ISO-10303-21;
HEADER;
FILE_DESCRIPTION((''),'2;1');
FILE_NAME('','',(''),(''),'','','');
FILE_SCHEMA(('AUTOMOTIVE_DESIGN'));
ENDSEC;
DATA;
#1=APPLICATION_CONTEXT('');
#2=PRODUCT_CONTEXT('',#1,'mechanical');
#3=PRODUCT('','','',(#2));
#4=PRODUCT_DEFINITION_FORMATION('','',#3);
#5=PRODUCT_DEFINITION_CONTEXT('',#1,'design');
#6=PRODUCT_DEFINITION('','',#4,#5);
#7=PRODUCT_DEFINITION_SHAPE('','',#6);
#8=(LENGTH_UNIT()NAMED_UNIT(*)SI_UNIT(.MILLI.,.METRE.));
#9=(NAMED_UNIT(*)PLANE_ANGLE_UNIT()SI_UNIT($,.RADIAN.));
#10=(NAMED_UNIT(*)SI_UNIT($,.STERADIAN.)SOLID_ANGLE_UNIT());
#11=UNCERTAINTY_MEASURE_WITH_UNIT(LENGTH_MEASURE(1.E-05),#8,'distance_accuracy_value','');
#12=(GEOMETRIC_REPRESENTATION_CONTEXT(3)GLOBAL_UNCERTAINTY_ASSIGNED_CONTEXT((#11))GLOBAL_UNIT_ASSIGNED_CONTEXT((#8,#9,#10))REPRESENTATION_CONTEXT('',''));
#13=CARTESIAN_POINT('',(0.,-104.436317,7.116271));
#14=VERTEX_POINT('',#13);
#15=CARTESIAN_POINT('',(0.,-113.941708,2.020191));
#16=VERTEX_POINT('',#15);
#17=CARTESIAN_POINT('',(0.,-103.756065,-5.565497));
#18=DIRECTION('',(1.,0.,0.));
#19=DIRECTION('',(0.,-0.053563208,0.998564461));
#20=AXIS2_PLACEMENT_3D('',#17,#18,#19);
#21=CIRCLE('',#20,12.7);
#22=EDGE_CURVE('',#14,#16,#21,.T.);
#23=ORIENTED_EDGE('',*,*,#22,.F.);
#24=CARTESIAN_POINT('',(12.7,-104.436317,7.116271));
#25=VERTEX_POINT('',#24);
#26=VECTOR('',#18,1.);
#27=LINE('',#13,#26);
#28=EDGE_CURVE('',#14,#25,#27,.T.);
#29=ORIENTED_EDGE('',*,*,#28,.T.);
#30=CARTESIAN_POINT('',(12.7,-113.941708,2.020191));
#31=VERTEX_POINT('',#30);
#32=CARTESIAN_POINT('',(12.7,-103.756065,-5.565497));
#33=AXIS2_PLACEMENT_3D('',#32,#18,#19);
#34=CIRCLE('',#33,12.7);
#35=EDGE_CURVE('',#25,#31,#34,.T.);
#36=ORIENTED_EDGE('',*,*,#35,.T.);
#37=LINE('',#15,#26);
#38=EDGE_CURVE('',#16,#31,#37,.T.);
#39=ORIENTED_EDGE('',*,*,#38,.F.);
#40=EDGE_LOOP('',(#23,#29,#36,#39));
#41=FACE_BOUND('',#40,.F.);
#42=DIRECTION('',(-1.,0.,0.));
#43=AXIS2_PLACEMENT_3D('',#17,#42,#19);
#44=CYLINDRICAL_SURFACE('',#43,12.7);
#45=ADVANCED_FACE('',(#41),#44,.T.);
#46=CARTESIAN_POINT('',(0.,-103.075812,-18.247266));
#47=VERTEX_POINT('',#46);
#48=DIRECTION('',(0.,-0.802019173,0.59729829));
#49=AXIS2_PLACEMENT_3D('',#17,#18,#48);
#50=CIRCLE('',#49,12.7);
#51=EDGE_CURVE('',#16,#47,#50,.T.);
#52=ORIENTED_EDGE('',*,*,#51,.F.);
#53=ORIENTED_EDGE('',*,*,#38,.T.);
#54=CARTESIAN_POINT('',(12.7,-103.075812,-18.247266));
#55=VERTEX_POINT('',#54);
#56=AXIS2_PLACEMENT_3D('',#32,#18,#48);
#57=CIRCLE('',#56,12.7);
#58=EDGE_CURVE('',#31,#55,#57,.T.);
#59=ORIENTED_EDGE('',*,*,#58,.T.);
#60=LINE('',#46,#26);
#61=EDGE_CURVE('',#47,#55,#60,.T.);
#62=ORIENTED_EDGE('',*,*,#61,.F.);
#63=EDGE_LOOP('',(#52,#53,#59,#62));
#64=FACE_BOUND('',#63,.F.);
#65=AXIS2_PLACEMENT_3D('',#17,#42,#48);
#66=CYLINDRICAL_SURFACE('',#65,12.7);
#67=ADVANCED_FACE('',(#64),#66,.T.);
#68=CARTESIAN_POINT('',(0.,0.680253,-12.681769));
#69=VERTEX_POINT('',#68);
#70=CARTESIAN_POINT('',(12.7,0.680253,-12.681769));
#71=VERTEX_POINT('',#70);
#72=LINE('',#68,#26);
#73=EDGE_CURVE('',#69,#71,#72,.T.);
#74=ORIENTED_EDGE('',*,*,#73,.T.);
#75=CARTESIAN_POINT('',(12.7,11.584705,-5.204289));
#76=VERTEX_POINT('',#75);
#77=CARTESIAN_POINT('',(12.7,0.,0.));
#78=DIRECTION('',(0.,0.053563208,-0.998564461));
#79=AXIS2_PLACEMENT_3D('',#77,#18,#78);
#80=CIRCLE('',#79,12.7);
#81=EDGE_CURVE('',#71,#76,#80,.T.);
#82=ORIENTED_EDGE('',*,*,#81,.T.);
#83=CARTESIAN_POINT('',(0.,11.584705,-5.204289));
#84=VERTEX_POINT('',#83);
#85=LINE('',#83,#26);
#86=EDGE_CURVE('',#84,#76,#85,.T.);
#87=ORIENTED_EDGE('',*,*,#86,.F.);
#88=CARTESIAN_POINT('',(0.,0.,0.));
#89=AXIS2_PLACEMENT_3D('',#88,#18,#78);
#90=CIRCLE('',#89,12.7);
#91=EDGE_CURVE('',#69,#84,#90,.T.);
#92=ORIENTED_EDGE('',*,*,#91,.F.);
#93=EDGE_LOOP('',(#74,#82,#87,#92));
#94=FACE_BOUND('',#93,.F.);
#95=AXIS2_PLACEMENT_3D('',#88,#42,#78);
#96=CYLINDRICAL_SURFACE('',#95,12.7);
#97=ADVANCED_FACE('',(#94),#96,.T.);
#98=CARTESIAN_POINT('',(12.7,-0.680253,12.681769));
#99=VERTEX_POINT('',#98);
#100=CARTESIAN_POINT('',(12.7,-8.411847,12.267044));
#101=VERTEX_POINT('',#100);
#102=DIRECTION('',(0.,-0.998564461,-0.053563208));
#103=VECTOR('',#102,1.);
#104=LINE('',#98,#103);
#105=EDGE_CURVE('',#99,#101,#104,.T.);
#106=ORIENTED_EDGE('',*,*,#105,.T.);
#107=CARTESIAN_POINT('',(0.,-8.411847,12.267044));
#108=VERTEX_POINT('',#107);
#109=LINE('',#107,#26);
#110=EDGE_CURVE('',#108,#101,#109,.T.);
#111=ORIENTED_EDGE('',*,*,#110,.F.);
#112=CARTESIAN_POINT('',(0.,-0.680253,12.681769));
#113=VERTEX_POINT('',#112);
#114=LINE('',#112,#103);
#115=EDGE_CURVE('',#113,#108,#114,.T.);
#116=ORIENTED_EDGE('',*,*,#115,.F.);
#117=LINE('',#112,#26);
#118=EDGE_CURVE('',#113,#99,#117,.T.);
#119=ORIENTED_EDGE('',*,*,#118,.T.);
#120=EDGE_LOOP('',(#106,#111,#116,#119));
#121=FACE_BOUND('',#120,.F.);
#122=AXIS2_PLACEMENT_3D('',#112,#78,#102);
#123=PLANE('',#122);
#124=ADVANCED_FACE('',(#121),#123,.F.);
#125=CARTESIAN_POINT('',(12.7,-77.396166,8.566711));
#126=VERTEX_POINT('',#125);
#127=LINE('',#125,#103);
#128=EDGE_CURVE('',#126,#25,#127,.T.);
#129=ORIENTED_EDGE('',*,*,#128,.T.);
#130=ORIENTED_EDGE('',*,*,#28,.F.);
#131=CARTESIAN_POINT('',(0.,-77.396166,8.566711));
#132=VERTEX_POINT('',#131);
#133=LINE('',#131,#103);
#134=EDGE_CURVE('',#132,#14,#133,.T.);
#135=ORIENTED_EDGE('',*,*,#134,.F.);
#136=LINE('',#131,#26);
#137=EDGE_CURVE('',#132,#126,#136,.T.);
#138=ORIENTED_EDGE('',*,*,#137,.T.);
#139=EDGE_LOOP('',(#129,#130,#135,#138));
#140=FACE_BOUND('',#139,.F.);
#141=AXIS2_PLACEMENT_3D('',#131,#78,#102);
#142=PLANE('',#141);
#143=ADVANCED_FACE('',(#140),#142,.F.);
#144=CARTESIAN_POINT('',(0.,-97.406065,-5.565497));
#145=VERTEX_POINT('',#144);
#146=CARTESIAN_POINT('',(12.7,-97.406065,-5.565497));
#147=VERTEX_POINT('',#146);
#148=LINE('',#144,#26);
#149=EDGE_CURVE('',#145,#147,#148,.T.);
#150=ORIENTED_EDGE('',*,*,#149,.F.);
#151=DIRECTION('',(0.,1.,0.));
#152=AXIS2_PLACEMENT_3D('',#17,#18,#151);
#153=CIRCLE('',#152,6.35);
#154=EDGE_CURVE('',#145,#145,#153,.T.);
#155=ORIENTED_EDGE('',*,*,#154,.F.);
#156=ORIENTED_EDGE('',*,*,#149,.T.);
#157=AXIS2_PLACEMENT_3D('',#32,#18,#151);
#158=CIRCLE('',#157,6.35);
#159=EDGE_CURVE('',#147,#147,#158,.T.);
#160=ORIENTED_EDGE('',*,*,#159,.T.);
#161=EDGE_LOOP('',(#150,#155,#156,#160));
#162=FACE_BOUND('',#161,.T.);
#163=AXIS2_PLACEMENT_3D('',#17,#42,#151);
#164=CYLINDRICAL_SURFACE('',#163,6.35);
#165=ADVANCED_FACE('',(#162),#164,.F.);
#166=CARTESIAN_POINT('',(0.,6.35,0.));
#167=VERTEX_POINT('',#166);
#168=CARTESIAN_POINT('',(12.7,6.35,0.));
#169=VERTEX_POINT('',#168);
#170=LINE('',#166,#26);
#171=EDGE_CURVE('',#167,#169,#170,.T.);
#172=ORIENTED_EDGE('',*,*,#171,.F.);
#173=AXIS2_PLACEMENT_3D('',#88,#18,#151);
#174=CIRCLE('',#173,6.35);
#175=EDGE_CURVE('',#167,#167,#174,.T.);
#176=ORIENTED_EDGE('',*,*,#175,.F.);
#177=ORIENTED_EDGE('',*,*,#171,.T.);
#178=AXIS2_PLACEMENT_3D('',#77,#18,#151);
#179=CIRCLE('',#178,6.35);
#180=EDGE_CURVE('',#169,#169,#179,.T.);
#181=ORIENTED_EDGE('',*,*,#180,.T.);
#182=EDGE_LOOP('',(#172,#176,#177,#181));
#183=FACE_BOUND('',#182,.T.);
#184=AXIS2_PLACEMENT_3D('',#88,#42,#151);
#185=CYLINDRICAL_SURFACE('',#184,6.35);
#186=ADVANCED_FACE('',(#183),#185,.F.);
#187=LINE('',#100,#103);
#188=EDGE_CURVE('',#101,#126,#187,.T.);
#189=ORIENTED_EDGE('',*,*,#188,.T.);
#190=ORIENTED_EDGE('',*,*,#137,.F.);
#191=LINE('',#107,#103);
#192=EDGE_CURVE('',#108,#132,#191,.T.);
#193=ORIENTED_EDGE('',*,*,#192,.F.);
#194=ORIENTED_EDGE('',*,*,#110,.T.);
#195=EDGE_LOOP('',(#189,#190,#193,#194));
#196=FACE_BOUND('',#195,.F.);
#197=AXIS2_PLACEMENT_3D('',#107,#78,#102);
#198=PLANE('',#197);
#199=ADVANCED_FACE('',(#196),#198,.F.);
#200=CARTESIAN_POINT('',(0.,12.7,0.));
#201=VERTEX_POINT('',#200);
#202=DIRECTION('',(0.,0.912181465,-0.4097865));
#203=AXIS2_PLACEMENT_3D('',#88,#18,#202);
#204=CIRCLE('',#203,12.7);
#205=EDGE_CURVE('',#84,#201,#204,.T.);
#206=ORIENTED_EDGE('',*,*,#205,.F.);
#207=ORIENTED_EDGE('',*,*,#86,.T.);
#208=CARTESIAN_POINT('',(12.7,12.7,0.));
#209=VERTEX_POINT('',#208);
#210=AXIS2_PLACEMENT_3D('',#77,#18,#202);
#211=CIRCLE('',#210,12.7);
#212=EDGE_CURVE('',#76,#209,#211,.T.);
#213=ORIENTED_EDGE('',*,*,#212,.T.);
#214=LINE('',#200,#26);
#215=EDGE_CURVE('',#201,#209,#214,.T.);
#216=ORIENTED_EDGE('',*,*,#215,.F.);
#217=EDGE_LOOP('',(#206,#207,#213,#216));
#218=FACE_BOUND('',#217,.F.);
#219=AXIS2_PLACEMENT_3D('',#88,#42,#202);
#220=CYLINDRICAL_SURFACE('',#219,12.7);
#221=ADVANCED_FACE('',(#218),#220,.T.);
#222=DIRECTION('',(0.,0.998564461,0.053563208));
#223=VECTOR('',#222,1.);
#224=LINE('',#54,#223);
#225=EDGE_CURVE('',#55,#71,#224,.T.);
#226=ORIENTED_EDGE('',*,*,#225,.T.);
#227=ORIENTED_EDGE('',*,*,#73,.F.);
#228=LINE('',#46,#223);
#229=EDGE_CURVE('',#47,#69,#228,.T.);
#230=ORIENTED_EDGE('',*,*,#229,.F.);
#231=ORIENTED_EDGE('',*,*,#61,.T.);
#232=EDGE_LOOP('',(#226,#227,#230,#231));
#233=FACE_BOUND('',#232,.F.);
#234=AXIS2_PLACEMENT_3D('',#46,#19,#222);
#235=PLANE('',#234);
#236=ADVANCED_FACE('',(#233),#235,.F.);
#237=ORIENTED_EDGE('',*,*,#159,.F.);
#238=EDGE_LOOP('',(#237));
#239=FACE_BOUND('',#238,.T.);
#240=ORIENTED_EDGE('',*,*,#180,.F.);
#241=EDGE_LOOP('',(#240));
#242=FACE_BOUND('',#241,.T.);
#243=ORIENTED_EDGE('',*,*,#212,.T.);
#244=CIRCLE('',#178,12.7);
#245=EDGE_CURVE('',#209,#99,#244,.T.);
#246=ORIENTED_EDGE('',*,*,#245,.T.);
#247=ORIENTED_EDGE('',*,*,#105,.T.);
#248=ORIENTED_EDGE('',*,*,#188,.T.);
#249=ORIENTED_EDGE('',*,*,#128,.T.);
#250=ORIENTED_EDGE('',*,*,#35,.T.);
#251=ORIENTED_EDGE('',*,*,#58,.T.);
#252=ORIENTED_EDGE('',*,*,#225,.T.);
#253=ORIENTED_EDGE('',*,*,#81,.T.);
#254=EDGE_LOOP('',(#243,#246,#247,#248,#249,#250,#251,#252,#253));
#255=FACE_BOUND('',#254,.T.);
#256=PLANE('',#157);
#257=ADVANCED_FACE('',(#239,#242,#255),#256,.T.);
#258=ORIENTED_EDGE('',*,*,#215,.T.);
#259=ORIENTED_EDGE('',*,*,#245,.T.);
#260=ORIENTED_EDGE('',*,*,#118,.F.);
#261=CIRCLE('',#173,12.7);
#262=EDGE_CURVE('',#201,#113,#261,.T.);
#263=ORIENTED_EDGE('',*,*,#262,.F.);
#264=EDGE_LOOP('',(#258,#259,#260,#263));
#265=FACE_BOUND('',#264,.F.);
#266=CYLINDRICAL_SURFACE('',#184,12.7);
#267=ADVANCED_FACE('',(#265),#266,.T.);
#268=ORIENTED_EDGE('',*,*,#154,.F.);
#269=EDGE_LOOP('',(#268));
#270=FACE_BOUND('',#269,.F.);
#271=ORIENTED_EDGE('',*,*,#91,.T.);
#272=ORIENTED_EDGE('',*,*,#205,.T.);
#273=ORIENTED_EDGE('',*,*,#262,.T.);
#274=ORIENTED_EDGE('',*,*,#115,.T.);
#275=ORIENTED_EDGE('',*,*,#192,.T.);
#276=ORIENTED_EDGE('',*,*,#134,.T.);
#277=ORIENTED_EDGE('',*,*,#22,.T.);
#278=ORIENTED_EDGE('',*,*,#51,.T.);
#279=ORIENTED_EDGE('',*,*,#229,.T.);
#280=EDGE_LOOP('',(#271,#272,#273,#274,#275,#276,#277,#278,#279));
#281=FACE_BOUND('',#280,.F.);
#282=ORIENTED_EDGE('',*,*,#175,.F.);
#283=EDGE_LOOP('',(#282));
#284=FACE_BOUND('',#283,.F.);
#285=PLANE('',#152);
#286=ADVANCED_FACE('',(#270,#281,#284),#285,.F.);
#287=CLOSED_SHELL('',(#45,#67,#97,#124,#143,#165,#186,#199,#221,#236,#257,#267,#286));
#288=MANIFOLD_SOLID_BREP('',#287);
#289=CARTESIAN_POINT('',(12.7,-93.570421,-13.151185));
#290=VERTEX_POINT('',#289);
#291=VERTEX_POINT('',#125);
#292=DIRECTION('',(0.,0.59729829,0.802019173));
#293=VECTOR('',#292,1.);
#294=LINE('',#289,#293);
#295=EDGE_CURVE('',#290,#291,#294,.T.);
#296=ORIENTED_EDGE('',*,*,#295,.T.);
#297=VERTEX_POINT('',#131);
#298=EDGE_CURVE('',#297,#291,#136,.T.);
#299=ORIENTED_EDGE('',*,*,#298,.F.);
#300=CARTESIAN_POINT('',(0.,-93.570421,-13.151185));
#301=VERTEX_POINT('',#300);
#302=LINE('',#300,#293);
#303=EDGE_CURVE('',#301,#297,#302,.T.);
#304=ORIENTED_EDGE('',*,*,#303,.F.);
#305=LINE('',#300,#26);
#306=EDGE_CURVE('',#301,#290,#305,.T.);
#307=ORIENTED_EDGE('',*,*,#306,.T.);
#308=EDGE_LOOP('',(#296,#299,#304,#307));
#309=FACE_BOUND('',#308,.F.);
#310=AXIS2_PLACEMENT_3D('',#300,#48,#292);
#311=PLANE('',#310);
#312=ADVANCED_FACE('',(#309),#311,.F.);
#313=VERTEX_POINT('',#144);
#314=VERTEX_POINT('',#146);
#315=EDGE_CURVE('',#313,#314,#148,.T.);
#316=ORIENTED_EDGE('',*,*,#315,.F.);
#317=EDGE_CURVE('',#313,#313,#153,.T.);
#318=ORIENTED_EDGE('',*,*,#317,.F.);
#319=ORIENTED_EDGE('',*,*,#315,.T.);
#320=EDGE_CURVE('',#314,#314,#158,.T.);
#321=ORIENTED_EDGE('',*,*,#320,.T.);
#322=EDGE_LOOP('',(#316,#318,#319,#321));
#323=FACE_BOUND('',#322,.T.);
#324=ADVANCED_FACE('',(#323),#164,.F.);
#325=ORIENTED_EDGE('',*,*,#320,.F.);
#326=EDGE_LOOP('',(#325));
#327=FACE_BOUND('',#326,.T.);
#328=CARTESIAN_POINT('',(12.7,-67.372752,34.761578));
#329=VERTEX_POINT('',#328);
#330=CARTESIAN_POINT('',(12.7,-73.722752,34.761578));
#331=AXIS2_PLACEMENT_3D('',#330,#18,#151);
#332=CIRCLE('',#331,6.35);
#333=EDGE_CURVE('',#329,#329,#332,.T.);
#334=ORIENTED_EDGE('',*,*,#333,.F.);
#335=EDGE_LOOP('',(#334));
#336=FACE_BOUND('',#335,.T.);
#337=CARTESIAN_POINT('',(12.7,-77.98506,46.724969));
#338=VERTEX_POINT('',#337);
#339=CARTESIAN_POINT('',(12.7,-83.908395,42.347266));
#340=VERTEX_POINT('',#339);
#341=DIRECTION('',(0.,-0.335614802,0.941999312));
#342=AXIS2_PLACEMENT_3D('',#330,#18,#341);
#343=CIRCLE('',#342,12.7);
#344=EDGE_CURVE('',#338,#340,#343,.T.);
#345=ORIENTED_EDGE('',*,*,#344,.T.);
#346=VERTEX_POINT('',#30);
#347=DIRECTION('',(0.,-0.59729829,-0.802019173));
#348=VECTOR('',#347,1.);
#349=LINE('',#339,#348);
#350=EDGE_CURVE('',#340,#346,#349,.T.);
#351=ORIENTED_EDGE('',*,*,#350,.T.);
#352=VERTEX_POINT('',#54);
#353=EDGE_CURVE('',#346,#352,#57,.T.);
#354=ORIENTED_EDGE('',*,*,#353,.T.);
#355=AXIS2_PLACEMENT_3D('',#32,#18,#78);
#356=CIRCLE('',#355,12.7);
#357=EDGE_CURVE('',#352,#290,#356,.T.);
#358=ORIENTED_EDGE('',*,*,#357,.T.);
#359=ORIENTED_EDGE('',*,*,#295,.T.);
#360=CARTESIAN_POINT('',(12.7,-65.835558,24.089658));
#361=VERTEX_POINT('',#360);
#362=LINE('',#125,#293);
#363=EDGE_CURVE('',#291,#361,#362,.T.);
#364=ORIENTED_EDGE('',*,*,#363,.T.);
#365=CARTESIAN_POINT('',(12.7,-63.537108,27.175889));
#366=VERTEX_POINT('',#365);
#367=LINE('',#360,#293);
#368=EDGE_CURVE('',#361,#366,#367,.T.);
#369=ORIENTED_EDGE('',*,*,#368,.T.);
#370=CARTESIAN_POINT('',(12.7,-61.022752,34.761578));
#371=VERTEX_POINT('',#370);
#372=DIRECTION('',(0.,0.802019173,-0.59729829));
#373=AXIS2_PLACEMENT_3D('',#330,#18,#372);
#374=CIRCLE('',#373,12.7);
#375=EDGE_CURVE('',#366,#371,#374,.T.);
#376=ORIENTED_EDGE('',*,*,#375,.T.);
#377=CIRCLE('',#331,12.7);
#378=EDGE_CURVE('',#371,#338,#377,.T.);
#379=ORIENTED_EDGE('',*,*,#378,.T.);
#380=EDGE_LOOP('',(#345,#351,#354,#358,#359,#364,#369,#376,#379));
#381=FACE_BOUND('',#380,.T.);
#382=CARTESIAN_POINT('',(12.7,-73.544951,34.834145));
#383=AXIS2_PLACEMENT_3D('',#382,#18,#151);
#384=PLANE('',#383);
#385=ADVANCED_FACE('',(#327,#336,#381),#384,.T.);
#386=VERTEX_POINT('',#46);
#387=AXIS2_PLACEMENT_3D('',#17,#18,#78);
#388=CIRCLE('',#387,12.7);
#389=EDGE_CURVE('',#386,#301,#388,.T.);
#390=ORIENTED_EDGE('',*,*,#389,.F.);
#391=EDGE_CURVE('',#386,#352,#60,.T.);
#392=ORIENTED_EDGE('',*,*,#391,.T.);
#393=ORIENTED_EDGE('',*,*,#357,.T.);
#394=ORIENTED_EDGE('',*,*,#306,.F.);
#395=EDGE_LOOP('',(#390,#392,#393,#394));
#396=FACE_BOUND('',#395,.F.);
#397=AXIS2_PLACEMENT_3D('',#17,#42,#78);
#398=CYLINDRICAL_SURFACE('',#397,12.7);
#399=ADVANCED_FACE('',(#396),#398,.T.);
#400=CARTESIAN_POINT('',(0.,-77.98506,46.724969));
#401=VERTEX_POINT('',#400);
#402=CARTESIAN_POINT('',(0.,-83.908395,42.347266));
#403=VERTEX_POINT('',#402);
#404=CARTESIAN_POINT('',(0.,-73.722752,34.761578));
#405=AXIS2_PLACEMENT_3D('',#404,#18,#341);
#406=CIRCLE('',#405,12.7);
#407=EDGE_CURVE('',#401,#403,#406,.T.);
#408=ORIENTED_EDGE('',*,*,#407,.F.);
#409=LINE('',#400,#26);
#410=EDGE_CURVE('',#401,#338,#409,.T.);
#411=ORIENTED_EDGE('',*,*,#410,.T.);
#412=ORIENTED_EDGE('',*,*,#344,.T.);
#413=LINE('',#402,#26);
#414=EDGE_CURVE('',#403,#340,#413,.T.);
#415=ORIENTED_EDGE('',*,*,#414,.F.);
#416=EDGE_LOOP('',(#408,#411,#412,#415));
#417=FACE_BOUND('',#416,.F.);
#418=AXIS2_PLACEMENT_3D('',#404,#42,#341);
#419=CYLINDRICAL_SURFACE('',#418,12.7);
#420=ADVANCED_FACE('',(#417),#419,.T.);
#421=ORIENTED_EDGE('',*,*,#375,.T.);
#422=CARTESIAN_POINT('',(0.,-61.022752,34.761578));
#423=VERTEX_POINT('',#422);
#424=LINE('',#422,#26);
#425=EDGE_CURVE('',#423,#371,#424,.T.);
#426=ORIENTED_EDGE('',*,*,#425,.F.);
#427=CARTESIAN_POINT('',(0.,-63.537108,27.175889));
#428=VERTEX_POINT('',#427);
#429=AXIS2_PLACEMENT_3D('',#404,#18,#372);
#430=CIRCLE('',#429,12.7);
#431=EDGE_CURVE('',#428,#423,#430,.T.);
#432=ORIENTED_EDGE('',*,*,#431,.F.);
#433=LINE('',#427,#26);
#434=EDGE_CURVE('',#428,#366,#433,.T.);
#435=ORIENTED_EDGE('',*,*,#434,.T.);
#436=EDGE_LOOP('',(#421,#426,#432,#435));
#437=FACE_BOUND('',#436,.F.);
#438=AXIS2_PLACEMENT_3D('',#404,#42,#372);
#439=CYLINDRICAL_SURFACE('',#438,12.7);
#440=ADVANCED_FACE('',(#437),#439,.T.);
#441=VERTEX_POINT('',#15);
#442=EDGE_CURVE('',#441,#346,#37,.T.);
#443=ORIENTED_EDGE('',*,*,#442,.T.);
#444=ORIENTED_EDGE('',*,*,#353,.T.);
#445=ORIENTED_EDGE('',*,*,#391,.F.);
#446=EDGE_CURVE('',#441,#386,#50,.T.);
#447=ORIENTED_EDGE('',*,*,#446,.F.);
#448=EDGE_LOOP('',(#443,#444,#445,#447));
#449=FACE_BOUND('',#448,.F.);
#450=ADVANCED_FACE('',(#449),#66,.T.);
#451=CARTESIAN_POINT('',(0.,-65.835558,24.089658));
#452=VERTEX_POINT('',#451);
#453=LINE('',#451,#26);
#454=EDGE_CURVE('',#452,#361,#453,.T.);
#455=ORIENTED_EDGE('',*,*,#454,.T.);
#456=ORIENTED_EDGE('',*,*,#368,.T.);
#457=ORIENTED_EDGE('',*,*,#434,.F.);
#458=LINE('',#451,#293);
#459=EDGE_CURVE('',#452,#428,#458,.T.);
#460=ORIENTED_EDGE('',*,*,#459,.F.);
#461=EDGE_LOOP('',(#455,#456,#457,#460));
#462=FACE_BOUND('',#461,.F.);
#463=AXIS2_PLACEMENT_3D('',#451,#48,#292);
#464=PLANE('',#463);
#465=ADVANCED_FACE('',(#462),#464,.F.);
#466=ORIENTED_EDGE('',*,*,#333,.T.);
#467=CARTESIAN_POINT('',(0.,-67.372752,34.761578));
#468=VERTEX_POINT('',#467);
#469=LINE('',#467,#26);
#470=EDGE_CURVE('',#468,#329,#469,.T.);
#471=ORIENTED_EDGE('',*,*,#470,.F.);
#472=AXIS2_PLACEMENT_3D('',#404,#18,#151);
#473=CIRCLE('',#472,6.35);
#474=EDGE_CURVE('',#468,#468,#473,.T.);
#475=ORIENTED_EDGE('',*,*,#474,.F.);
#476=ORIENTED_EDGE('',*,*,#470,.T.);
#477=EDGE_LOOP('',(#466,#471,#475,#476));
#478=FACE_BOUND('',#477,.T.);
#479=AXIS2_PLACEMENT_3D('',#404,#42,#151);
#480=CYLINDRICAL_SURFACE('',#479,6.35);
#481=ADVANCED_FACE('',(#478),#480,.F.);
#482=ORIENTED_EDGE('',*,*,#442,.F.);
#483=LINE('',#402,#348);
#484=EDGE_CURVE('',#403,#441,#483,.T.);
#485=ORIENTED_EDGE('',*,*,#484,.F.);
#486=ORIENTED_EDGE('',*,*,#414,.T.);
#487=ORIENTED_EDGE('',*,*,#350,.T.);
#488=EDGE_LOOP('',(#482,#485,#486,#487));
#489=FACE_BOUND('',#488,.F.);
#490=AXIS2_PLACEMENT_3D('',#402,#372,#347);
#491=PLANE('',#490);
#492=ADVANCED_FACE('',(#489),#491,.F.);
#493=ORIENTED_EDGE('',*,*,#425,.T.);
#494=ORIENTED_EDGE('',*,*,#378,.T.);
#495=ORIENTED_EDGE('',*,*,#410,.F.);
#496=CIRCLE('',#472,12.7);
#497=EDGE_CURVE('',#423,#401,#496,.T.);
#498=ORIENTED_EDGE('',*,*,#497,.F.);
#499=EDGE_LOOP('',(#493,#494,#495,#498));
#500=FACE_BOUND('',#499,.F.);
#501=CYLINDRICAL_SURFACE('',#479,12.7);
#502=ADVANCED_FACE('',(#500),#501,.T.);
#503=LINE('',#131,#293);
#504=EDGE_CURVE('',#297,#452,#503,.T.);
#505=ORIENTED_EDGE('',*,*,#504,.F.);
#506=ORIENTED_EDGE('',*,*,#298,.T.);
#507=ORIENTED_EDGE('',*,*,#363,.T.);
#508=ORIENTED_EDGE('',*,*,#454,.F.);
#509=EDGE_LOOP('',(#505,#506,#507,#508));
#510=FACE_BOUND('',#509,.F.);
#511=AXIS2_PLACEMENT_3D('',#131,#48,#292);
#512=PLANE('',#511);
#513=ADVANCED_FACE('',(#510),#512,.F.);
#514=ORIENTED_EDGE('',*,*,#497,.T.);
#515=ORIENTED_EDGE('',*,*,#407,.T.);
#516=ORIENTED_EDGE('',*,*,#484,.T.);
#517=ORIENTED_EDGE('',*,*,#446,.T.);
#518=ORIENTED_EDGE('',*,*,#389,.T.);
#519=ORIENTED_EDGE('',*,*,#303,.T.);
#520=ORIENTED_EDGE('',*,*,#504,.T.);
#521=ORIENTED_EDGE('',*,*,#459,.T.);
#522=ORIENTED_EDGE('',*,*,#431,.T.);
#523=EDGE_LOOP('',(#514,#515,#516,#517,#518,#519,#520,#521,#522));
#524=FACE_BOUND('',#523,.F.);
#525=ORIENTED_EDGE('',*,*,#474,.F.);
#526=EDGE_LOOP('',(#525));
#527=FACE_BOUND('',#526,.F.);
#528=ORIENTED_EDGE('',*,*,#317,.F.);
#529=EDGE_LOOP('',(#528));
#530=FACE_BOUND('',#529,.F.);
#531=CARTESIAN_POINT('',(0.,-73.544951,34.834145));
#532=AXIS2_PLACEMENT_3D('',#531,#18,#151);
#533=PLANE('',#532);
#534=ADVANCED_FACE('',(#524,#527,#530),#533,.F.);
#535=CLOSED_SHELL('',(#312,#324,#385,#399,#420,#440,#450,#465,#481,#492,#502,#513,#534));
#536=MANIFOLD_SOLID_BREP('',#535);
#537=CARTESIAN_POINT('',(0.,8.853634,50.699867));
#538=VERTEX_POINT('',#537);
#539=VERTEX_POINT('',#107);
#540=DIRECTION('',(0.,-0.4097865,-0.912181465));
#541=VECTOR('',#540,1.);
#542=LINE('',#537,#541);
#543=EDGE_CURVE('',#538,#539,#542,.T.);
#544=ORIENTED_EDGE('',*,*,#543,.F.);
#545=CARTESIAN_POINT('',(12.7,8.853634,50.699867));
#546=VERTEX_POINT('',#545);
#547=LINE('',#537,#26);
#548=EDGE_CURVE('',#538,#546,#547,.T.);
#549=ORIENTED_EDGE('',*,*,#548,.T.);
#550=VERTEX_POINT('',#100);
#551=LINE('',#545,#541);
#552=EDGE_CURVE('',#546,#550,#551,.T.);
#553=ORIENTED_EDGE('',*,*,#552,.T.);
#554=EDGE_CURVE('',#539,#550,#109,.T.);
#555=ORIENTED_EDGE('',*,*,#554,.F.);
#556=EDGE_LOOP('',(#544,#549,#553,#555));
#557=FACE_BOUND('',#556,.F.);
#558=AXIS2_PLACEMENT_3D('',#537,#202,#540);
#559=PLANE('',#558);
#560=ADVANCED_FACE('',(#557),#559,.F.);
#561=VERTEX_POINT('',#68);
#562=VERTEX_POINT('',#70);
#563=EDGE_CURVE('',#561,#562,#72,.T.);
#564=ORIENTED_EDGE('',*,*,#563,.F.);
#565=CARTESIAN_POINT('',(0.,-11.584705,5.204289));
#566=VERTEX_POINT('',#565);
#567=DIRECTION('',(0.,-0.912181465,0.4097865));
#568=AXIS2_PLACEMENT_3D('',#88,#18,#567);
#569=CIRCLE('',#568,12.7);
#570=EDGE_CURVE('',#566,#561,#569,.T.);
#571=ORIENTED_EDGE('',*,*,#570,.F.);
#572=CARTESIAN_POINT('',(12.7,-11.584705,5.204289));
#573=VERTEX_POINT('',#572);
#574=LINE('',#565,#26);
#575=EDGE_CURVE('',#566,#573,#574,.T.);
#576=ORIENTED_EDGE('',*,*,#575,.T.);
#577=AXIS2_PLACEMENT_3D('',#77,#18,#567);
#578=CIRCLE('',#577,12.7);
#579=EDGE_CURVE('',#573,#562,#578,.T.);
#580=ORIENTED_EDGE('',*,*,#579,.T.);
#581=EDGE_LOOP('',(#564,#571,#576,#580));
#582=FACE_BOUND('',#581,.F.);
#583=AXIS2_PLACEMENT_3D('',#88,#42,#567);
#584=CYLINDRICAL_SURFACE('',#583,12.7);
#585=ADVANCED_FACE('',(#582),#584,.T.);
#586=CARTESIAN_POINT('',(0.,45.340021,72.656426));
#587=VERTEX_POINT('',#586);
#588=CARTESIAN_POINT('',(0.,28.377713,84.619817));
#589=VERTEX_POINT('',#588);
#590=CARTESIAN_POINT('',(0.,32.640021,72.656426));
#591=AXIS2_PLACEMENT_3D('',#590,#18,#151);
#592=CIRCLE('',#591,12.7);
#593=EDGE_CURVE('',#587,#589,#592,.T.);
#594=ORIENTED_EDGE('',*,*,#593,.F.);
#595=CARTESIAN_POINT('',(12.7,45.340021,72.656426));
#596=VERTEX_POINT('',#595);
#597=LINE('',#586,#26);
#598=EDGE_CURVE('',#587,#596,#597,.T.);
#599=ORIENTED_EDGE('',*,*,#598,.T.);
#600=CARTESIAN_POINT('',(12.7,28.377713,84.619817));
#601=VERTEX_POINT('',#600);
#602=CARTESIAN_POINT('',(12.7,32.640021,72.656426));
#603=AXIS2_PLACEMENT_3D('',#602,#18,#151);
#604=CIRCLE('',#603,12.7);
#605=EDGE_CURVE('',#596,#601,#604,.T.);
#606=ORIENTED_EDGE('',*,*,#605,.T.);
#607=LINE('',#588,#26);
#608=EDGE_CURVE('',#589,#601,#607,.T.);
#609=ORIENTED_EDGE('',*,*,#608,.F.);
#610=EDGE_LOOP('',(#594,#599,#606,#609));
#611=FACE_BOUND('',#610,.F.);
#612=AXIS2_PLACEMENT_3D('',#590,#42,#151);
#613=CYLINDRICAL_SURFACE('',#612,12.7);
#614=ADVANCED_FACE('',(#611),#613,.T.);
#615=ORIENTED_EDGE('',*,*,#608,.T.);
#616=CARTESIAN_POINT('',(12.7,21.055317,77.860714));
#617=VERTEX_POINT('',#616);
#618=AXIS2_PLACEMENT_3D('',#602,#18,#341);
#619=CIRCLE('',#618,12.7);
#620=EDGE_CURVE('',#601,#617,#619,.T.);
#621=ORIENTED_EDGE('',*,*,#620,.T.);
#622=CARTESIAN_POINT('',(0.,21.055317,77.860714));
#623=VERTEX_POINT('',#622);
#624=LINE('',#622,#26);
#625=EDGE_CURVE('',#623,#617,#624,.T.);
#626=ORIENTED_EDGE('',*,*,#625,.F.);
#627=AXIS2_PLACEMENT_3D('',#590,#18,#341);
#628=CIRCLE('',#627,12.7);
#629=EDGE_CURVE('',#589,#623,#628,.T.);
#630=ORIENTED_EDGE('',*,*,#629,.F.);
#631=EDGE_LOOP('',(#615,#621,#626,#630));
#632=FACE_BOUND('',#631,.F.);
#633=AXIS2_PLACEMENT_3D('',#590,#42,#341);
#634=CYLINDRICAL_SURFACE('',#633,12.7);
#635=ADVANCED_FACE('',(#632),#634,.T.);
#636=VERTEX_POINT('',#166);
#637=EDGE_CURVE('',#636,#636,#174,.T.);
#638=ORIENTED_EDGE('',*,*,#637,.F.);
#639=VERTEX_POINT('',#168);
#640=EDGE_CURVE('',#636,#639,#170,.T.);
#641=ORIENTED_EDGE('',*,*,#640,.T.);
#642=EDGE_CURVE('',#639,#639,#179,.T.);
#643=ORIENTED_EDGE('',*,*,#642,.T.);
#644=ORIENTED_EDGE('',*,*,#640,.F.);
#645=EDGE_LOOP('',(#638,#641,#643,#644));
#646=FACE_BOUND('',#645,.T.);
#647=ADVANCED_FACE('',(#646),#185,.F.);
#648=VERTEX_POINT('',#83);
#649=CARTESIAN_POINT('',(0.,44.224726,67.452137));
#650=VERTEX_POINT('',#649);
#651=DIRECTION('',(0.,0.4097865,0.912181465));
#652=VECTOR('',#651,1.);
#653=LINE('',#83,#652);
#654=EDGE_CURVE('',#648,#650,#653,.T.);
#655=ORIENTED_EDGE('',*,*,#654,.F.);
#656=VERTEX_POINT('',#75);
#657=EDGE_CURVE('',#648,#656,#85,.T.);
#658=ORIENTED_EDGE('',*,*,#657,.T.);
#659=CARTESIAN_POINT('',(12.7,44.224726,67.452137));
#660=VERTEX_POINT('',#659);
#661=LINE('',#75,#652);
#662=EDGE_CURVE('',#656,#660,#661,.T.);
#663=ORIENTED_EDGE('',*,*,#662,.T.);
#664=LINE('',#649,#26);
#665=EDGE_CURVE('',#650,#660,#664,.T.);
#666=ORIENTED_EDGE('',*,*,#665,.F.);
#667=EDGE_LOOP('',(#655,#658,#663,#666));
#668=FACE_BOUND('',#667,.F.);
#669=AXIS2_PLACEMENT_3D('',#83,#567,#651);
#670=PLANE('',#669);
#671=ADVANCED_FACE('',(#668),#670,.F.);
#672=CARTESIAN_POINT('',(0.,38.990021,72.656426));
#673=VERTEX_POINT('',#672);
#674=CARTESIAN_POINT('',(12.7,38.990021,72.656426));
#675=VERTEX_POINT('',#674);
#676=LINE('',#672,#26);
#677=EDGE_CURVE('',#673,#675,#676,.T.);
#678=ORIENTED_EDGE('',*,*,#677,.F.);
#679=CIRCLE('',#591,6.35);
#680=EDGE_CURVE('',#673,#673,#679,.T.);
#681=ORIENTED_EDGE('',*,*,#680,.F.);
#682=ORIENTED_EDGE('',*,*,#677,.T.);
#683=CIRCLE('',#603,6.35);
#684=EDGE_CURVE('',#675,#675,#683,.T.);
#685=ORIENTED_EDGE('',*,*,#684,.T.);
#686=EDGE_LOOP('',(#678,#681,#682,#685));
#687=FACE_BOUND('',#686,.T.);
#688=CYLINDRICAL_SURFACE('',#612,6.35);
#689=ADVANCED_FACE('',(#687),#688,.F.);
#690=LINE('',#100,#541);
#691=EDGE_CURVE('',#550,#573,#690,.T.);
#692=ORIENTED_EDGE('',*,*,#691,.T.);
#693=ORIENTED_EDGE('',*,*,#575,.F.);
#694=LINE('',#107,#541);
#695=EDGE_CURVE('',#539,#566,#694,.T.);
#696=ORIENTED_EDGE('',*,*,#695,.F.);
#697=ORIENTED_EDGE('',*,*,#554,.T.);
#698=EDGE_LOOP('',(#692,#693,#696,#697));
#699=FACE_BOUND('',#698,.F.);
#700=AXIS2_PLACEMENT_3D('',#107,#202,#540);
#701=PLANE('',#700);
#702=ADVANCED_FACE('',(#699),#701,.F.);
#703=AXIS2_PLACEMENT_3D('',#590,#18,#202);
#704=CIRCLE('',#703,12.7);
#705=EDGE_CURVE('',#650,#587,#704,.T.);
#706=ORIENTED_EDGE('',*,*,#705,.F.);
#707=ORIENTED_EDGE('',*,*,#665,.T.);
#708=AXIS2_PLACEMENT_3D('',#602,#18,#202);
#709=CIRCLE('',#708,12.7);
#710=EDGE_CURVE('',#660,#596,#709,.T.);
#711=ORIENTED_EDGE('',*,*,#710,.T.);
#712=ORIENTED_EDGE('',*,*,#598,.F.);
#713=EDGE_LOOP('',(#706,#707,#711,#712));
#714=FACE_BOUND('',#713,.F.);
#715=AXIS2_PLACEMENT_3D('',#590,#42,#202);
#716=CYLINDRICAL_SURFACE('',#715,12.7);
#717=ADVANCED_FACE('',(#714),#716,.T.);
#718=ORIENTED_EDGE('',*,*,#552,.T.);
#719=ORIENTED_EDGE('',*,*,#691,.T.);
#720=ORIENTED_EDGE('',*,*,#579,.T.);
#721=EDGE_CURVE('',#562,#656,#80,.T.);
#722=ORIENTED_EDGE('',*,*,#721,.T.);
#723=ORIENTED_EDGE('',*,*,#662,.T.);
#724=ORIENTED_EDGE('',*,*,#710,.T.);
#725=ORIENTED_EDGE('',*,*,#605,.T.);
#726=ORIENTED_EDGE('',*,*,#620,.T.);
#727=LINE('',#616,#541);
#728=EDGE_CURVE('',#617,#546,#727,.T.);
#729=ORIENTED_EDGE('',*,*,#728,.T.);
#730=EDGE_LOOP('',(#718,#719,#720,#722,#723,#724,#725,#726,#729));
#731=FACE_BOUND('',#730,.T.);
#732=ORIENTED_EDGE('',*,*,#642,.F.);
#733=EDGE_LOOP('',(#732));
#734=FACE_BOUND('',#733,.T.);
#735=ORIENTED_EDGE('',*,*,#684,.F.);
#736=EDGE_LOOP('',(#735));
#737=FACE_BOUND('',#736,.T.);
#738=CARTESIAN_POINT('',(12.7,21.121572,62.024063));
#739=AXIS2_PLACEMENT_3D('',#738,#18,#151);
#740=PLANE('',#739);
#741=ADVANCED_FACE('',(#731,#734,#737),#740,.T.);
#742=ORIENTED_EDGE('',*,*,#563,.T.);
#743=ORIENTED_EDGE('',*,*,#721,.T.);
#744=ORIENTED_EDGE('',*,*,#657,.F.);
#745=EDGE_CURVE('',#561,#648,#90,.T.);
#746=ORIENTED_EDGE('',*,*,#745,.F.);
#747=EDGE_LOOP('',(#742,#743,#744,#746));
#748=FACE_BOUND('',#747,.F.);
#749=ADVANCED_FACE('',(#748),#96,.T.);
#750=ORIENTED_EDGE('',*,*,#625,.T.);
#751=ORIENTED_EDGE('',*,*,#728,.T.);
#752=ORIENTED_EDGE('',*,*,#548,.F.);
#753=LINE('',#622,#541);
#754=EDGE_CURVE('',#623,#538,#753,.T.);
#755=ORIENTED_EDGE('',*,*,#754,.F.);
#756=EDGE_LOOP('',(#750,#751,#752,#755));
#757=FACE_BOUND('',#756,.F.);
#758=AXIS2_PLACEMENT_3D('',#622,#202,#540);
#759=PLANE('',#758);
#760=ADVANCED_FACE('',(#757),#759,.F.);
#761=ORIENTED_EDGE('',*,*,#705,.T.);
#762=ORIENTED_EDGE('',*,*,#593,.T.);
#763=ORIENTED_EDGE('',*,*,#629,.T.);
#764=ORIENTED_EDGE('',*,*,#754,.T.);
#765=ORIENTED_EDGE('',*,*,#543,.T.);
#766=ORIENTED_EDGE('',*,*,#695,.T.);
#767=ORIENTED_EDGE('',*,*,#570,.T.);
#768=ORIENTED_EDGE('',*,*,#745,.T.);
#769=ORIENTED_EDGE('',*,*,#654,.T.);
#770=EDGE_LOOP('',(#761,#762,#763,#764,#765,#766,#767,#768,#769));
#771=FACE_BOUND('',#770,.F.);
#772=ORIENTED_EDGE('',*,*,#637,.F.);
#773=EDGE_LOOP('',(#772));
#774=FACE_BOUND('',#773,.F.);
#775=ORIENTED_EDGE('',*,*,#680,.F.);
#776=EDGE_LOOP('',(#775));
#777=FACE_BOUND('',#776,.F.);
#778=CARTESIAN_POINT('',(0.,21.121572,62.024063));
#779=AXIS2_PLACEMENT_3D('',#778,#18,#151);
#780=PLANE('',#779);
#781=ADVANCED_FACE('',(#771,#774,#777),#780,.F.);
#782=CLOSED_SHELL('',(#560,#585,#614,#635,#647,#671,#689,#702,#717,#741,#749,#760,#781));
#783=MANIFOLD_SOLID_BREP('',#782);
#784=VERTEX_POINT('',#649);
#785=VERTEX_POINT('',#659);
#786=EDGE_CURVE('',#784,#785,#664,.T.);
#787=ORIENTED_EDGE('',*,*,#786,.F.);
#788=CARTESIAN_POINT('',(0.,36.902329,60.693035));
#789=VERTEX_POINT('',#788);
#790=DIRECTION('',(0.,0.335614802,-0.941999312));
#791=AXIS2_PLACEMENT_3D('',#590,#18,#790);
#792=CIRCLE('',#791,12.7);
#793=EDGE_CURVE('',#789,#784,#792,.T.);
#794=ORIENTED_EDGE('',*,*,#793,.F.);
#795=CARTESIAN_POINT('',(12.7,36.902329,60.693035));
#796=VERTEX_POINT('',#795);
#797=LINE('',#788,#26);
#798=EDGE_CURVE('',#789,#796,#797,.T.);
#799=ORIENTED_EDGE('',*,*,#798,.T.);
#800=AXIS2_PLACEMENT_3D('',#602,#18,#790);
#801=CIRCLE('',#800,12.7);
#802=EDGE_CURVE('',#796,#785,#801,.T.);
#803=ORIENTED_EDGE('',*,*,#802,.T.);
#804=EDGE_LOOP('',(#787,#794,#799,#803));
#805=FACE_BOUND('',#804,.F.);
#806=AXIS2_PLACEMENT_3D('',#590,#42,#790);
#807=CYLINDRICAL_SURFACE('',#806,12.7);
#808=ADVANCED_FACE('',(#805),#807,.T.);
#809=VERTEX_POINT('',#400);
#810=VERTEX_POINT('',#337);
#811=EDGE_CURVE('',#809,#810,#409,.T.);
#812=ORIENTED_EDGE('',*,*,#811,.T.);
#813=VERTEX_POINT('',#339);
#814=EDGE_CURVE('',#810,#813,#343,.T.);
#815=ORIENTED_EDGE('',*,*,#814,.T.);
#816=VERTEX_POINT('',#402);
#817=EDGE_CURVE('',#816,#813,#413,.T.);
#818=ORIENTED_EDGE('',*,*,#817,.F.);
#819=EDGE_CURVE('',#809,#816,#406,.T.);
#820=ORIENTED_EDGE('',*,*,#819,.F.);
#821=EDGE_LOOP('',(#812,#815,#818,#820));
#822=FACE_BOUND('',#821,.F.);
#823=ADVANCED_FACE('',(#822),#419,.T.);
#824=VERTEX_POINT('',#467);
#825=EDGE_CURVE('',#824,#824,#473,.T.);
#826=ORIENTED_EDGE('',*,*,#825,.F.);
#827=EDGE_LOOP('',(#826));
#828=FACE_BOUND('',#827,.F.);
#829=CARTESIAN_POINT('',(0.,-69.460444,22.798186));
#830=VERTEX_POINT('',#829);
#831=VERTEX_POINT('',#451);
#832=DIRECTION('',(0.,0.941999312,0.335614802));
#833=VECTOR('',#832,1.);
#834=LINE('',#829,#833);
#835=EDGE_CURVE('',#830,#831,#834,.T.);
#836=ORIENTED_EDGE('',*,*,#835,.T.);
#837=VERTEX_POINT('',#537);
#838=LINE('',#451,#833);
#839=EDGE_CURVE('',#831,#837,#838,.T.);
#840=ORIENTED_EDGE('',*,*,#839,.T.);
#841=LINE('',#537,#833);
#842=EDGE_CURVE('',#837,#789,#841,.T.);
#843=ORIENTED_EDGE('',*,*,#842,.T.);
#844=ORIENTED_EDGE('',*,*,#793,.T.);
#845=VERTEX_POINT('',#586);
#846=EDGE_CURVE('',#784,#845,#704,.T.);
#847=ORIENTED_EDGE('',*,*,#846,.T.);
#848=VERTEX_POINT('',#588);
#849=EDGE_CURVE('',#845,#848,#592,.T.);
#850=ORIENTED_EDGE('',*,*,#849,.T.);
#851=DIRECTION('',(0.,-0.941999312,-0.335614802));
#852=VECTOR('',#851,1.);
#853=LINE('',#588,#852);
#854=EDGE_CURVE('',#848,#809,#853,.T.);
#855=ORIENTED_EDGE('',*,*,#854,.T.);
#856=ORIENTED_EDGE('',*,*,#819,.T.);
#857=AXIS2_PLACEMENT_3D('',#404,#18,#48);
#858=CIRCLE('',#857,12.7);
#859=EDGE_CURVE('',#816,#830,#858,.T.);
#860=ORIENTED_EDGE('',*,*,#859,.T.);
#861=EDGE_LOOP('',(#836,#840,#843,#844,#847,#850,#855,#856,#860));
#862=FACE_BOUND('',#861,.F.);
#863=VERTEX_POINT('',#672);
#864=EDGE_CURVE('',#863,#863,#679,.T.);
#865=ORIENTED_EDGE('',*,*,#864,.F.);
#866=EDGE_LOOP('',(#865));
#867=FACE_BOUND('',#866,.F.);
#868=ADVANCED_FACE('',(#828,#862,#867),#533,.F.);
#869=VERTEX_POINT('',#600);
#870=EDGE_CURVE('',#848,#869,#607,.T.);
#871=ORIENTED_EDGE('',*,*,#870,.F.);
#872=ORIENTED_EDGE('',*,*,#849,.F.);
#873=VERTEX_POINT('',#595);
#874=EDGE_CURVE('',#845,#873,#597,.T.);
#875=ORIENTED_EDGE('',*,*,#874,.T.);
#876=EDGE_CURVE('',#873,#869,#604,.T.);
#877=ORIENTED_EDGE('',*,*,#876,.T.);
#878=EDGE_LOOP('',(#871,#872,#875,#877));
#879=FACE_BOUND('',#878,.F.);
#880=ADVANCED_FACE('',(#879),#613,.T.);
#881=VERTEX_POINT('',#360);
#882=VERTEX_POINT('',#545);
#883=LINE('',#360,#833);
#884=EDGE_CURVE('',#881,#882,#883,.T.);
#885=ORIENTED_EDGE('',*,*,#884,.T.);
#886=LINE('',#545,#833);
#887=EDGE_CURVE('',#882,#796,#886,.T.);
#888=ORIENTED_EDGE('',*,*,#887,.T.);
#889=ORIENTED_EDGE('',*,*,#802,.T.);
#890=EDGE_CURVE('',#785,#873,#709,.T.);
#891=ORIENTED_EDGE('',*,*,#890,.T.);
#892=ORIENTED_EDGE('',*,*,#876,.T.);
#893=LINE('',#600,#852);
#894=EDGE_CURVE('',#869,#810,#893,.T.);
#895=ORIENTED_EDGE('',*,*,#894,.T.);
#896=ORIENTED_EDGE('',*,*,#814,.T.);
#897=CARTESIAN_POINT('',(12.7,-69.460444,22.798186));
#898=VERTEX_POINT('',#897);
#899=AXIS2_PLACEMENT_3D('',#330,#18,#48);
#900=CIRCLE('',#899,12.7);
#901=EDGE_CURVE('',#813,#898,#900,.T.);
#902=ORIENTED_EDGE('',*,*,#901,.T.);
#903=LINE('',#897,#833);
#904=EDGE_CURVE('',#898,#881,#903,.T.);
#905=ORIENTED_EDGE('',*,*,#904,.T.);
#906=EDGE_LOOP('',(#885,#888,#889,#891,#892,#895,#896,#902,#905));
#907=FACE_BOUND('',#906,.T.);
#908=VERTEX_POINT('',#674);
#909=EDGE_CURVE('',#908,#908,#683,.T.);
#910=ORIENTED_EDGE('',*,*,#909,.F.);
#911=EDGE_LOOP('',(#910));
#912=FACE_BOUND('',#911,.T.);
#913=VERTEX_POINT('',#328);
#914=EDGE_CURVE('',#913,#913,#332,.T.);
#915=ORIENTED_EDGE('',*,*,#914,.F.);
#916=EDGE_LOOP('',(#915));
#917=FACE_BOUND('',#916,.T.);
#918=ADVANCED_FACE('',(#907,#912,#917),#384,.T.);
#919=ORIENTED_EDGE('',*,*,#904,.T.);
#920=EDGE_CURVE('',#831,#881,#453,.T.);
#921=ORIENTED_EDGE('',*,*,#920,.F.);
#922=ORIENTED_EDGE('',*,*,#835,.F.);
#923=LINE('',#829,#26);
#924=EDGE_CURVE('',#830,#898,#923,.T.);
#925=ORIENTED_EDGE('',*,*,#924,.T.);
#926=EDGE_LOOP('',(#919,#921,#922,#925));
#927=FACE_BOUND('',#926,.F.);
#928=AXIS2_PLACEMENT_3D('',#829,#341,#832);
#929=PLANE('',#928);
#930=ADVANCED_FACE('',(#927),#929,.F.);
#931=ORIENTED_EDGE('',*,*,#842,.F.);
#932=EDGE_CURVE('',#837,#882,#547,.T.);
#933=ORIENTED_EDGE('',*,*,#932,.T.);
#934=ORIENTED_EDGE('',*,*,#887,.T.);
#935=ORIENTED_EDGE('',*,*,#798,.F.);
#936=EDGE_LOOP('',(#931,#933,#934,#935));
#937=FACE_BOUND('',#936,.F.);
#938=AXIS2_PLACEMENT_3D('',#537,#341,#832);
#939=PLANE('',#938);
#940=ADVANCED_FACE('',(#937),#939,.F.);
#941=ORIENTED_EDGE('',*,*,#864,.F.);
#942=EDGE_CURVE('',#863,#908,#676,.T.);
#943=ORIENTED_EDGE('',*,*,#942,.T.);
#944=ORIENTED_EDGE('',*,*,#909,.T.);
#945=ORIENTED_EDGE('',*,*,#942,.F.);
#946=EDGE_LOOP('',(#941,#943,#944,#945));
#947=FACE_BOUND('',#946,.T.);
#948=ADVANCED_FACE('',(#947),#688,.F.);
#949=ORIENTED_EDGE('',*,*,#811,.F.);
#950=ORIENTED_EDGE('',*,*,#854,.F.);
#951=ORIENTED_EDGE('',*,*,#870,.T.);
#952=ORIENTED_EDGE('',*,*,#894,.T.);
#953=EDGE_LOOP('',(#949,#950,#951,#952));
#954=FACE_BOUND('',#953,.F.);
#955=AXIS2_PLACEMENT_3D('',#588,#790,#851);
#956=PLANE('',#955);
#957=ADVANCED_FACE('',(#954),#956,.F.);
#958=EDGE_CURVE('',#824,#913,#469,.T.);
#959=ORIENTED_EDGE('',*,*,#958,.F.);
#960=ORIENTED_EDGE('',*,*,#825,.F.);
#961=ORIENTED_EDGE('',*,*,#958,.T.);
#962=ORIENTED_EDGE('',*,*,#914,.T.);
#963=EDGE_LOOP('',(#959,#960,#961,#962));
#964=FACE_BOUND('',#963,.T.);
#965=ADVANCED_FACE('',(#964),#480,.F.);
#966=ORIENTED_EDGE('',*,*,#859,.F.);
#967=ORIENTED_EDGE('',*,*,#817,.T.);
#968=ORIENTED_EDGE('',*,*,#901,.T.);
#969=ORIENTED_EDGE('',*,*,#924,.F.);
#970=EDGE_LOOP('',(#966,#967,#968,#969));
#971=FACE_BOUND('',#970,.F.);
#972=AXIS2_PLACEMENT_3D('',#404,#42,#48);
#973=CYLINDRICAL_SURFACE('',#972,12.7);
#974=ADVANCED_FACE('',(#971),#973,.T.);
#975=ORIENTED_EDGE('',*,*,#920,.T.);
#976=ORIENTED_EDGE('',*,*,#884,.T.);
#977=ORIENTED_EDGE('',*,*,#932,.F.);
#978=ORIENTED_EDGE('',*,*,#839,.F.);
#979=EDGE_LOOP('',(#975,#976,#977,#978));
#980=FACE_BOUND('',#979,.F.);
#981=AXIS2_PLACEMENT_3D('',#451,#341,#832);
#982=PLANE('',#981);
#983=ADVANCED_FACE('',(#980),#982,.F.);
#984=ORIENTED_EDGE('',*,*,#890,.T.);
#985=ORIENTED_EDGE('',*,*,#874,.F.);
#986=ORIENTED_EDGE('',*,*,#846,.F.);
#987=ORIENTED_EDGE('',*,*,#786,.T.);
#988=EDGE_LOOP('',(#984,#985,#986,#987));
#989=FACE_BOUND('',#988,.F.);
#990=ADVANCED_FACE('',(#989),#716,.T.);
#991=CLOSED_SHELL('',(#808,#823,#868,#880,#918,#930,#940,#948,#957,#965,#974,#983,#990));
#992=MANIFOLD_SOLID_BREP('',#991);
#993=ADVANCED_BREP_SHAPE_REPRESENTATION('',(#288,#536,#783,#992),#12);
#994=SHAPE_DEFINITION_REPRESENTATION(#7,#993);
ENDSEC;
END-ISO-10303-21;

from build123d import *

# Parameters (mm, degrees)
F0_R     = 6.35
F1_DEPTH = 12.7
F2_DEPTH = 12.7
F3_DEPTH = 12.7
F4_DEPTH = 12.7


with BuildPart() as f1:
    # F0 (on Right) → F1 (new body)
    with BuildSketch(Plane.YZ):
        with BuildLine():
            ThreePointArc((-83.9083950328, 42.3472659243), (-83.9361302008, 27.2132734438), (-69.4604435559, 22.7981863781))
            ThreePointArc((-69.4604435559, 22.7981863781), (-66.1744473375, 24.5481989863), (-63.5371080479, 27.1758893691))
            ThreePointArc((-63.5371080479, 27.1758893691), (-61.6677178956, 30.7658094073), (-61.0227515404, 34.7615776467))
            ThreePointArc((-61.0227515404, 34.7615776467), (-66.4029602661, 45.1399520715), (-77.9850595248, 46.7249689153))
            ThreePointArc((-77.9850595248, 46.7249689153), (-81.2710557432, 44.9749563071), (-83.9083950328, 42.3472659243))
        make_face()
        with Locations((-73.7227515404, 34.7615776467)):
            Circle(F0_R, mode=Mode.SUBTRACT)
        with BuildLine():
            Line((-104.4363172723, 7.1162714515), (-77.3961663813, 8.5667108531))
            Line((-77.3961663813, 8.5667108531), (-65.8355577842, 24.0896579367))
            Line((-65.8355577842, 24.0896579367), (-69.4604435559, 22.7981863781))
            ThreePointArc((-69.4604435559, 22.7981863781), (-83.9361302008, 27.2132734438), (-83.9083950328, 42.3472659243))
            Line((-83.9083950328, 42.3472659243), (-113.9417080171, 2.0201910748))
            ThreePointArc((-113.9417080171, 2.0201910748), (-109.7568506462, 5.6273829415), (-104.4363172723, 7.1162714515))
        make_face()
        with BuildLine():
            Line((-69.4604435559, 22.7981863781), (-65.8355577842, 24.0896579367))
            Line((-65.8355577842, 24.0896579367), (-63.5371080479, 27.1758893691))
            ThreePointArc((-63.5371080479, 27.1758893691), (-66.1744473375, 24.5481989863), (-69.4604435559, 22.7981863781))
        make_face()
        with BuildLine():
            Line((-93.5704210322, -13.1511854804), (-77.3961663813, 8.5667108531))
            Line((-77.3961663813, 8.5667108531), (-104.4363172723, 7.1162714515))
            ThreePointArc((-104.4363172723, 7.1162714515), (-95.0196238849, 3.6521274884), (-91.0560645247, -5.5654972028))
            ThreePointArc((-91.0560645247, -5.5654972028), (-91.7010308799, -9.5612654422), (-93.5704210322, -13.1511854804))
        make_face()
        with BuildLine():
            ThreePointArc((-113.9417080171, 2.0201910748), (-114.948944669, -11.5662833243), (-103.0758117771, -18.247265857))
            ThreePointArc((-103.0758117771, -18.247265857), (-97.7552784032, -16.758377347), (-93.5704210322, -13.1511854804))
            ThreePointArc((-93.5704210322, -13.1511854804), (-91.7010308799, -9.5612654422), (-91.0560645247, -5.5654972028))
            ThreePointArc((-91.0560645247, -5.5654972028), (-95.0196238849, 3.6521274884), (-104.4363172723, 7.1162714515))
            ThreePointArc((-104.4363172723, 7.1162714515), (-109.7568506462, 5.6273829415), (-113.9417080171, 2.0201910748))
        make_face()
        with Locations((-103.7560645247, -5.5654972028)):
            Circle(F0_R, mode=Mode.SUBTRACT)
    extrude(amount=F1_DEPTH)


with BuildPart() as f2:
    # F0 (on Right) → F2 (new body)
    with BuildSketch(Plane.YZ):
        with BuildLine():
            Line((21.055316714, 77.860714389), (8.853634096, 50.6998666772))
            Line((8.853634096, 50.6998666772), (36.9023292992, 60.6930345702))
            ThreePointArc((36.9023292992, 60.6930345702), (23.3079968483, 64.0422909805), (21.055316714, 77.860714389))
        make_face()
        with BuildLine():
            ThreePointArc((-0.6802527476, 12.6817686542), (8.7364406398, 9.2176246912), (12.7, 0))
            ThreePointArc((12.7, 0), (12.4180463123, -2.6612263687), (11.5847046007, -5.2042885502))
            Line((11.5847046007, -5.2042885502), (44.2247259155, 67.4521372886))
            ThreePointArc((44.2247259155, 67.4521372886), (41.2541561731, 63.3244013724), (36.9023292992, 60.6930345702))
            Line((36.9023292992, 60.6930345702), (8.853634096, 50.6998666772))
            Line((8.853634096, 50.6998666772), (-8.411846923, 12.2670443106))
            Line((-8.411846923, 12.2670443106), (-0.6802527476, 12.6817686542))
        make_face()
        with BuildLine():
            ThreePointArc((36.9023292992, 60.6930345702), (41.2541561731, 63.3244013724), (44.2247259155, 67.4521372886))
            ThreePointArc((44.2247259155, 67.4521372886), (45.058067627, 69.9951994701), (45.3400213147, 72.6564258388))
            ThreePointArc((45.3400213147, 72.6564258388), (39.959812589, 83.0348002636), (28.3777133303, 84.6198171074))
            ThreePointArc((28.3777133303, 84.6198171074), (24.0258864564, 81.9884503053), (21.055316714, 77.860714389))
            ThreePointArc((21.055316714, 77.860714389), (23.3079968483, 64.0422909805), (36.9023292992, 60.6930345702))
        make_face()
        with Locations((32.6400213147, 72.6564258388)):
            Circle(F0_R, mode=Mode.SUBTRACT)
        with BuildLine():
            ThreePointArc((-11.5847046007, 5.2042885502), (-7.1823026855, 10.4739929413), (-0.6802527476, 12.6817686542))
            Line((-0.6802527476, 12.6817686542), (-8.411846923, 12.2670443106))
            Line((-8.411846923, 12.2670443106), (-11.5847046007, 5.2042885502))
        make_face()
        with BuildLine():
            ThreePointArc((11.5847046007, -5.2042885502), (12.4180463123, -2.6612263687), (12.7, 0))
            ThreePointArc((12.7, 0), (8.7364406398, 9.2176246912), (-0.6802527476, 12.6817686542))
            ThreePointArc((-0.6802527476, 12.6817686542), (-7.1823026855, 10.4739929413), (-11.5847046007, 5.2042885502))
            ThreePointArc((-11.5847046007, 5.2042885502), (-10.4739929413, -7.1823026855), (0.6802527476, -12.6817686542))
            ThreePointArc((0.6802527476, -12.6817686542), (7.1823026855, -10.4739929413), (11.5847046007, -5.2042885502))
        make_face()
        Circle(F0_R, mode=Mode.SUBTRACT)
    extrude(amount=F2_DEPTH)


with BuildPart() as f3:
    # F0 (on Right) → F3 (new body)
    with BuildSketch(Plane.YZ):
        with BuildLine():
            ThreePointArc((-83.9083950328, 42.3472659243), (-83.9361302008, 27.2132734438), (-69.4604435559, 22.7981863781))
            ThreePointArc((-69.4604435559, 22.7981863781), (-66.1744473375, 24.5481989863), (-63.5371080479, 27.1758893691))
            ThreePointArc((-63.5371080479, 27.1758893691), (-61.6677178956, 30.7658094073), (-61.0227515404, 34.7615776467))
            ThreePointArc((-61.0227515404, 34.7615776467), (-66.4029602661, 45.1399520715), (-77.9850595248, 46.7249689153))
            ThreePointArc((-77.9850595248, 46.7249689153), (-81.2710557432, 44.9749563071), (-83.9083950328, 42.3472659243))
        make_face()
        with Locations((-73.7227515404, 34.7615776467)):
            Circle(F0_R, mode=Mode.SUBTRACT)
        with BuildLine():
            Line((-65.8355577842, 24.0896579367), (8.853634096, 50.6998666772))
            Line((8.853634096, 50.6998666772), (21.055316714, 77.860714389))
            ThreePointArc((21.055316714, 77.860714389), (24.0258864564, 81.9884503053), (28.3777133303, 84.6198171074))
            Line((28.3777133303, 84.6198171074), (-77.9850595248, 46.7249689153))
            ThreePointArc((-77.9850595248, 46.7249689153), (-66.4029602661, 45.1399520715), (-61.0227515404, 34.7615776467))
            ThreePointArc((-61.0227515404, 34.7615776467), (-61.6677178956, 30.7658094073), (-63.5371080479, 27.1758893691))
            Line((-63.5371080479, 27.1758893691), (-65.8355577842, 24.0896579367))
        make_face()
        with BuildLine():
            Line((21.055316714, 77.860714389), (8.853634096, 50.6998666772))
            Line((8.853634096, 50.6998666772), (36.9023292992, 60.6930345702))
            ThreePointArc((36.9023292992, 60.6930345702), (23.3079968483, 64.0422909805), (21.055316714, 77.860714389))
        make_face()
        with BuildLine():
            ThreePointArc((36.9023292992, 60.6930345702), (41.2541561731, 63.3244013724), (44.2247259155, 67.4521372886))
            ThreePointArc((44.2247259155, 67.4521372886), (45.058067627, 69.9951994701), (45.3400213147, 72.6564258388))
            ThreePointArc((45.3400213147, 72.6564258388), (39.959812589, 83.0348002636), (28.3777133303, 84.6198171074))
            ThreePointArc((28.3777133303, 84.6198171074), (24.0258864564, 81.9884503053), (21.055316714, 77.860714389))
            ThreePointArc((21.055316714, 77.860714389), (23.3079968483, 64.0422909805), (36.9023292992, 60.6930345702))
        make_face()
        with Locations((32.6400213147, 72.6564258388)):
            Circle(F0_R, mode=Mode.SUBTRACT)
        with BuildLine():
            Line((-69.4604435559, 22.7981863781), (-65.8355577842, 24.0896579367))
            Line((-65.8355577842, 24.0896579367), (-63.5371080479, 27.1758893691))
            ThreePointArc((-63.5371080479, 27.1758893691), (-66.1744473375, 24.5481989863), (-69.4604435559, 22.7981863781))
        make_face()
    extrude(amount=F3_DEPTH)


with BuildPart() as f4:
    # F0 (on Right) → F4 (new body)
    with BuildSketch(Plane.YZ):
        with BuildLine():
            ThreePointArc((-113.9417080171, 2.0201910748), (-114.948944669, -11.5662833243), (-103.0758117771, -18.247265857))
            ThreePointArc((-103.0758117771, -18.247265857), (-97.7552784032, -16.758377347), (-93.5704210322, -13.1511854804))
            ThreePointArc((-93.5704210322, -13.1511854804), (-91.7010308799, -9.5612654422), (-91.0560645247, -5.5654972028))
            ThreePointArc((-91.0560645247, -5.5654972028), (-95.0196238849, 3.6521274884), (-104.4363172723, 7.1162714515))
            ThreePointArc((-104.4363172723, 7.1162714515), (-109.7568506462, 5.6273829415), (-113.9417080171, 2.0201910748))
        make_face()
        with Locations((-103.7560645247, -5.5654972028)):
            Circle(F0_R, mode=Mode.SUBTRACT)
        with BuildLine():
            ThreePointArc((0.6802527476, -12.6817686542), (-10.4739929413, -7.1823026855), (-11.5847046007, 5.2042885502))
            Line((-11.5847046007, 5.2042885502), (-8.411846923, 12.2670443106))
            Line((-8.411846923, 12.2670443106), (-77.3961663813, 8.5667108531))
            Line((-77.3961663813, 8.5667108531), (-93.5704210322, -13.1511854804))
            ThreePointArc((-93.5704210322, -13.1511854804), (-97.7552784032, -16.758377347), (-103.0758117771, -18.247265857))
            Line((-103.0758117771, -18.247265857), (0.6802527476, -12.6817686542))
        make_face()
        with BuildLine():
            ThreePointArc((-11.5847046007, 5.2042885502), (-7.1823026855, 10.4739929413), (-0.6802527476, 12.6817686542))
            Line((-0.6802527476, 12.6817686542), (-8.411846923, 12.2670443106))
            Line((-8.411846923, 12.2670443106), (-11.5847046007, 5.2042885502))
        make_face()
        with BuildLine():
            ThreePointArc((11.5847046007, -5.2042885502), (12.4180463123, -2.6612263687), (12.7, 0))
            ThreePointArc((12.7, 0), (8.7364406398, 9.2176246912), (-0.6802527476, 12.6817686542))
            ThreePointArc((-0.6802527476, 12.6817686542), (-7.1823026855, 10.4739929413), (-11.5847046007, 5.2042885502))
            ThreePointArc((-11.5847046007, 5.2042885502), (-10.4739929413, -7.1823026855), (0.6802527476, -12.6817686542))
            ThreePointArc((0.6802527476, -12.6817686542), (7.1823026855, -10.4739929413), (11.5847046007, -5.2042885502))
        make_face()
        Circle(F0_R, mode=Mode.SUBTRACT)
        with BuildLine():
            Line((-93.5704210322, -13.1511854804), (-77.3961663813, 8.5667108531))
            Line((-77.3961663813, 8.5667108531), (-104.4363172723, 7.1162714515))
            ThreePointArc((-104.4363172723, 7.1162714515), (-95.0196238849, 3.6521274884), (-91.0560645247, -5.5654972028))
            ThreePointArc((-91.0560645247, -5.5654972028), (-91.7010308799, -9.5612654422), (-93.5704210322, -13.1511854804))
        make_face()
    extrude(amount=F4_DEPTH)


solid = Compound([f1.part, f2.part, f3.part, f4.part])
